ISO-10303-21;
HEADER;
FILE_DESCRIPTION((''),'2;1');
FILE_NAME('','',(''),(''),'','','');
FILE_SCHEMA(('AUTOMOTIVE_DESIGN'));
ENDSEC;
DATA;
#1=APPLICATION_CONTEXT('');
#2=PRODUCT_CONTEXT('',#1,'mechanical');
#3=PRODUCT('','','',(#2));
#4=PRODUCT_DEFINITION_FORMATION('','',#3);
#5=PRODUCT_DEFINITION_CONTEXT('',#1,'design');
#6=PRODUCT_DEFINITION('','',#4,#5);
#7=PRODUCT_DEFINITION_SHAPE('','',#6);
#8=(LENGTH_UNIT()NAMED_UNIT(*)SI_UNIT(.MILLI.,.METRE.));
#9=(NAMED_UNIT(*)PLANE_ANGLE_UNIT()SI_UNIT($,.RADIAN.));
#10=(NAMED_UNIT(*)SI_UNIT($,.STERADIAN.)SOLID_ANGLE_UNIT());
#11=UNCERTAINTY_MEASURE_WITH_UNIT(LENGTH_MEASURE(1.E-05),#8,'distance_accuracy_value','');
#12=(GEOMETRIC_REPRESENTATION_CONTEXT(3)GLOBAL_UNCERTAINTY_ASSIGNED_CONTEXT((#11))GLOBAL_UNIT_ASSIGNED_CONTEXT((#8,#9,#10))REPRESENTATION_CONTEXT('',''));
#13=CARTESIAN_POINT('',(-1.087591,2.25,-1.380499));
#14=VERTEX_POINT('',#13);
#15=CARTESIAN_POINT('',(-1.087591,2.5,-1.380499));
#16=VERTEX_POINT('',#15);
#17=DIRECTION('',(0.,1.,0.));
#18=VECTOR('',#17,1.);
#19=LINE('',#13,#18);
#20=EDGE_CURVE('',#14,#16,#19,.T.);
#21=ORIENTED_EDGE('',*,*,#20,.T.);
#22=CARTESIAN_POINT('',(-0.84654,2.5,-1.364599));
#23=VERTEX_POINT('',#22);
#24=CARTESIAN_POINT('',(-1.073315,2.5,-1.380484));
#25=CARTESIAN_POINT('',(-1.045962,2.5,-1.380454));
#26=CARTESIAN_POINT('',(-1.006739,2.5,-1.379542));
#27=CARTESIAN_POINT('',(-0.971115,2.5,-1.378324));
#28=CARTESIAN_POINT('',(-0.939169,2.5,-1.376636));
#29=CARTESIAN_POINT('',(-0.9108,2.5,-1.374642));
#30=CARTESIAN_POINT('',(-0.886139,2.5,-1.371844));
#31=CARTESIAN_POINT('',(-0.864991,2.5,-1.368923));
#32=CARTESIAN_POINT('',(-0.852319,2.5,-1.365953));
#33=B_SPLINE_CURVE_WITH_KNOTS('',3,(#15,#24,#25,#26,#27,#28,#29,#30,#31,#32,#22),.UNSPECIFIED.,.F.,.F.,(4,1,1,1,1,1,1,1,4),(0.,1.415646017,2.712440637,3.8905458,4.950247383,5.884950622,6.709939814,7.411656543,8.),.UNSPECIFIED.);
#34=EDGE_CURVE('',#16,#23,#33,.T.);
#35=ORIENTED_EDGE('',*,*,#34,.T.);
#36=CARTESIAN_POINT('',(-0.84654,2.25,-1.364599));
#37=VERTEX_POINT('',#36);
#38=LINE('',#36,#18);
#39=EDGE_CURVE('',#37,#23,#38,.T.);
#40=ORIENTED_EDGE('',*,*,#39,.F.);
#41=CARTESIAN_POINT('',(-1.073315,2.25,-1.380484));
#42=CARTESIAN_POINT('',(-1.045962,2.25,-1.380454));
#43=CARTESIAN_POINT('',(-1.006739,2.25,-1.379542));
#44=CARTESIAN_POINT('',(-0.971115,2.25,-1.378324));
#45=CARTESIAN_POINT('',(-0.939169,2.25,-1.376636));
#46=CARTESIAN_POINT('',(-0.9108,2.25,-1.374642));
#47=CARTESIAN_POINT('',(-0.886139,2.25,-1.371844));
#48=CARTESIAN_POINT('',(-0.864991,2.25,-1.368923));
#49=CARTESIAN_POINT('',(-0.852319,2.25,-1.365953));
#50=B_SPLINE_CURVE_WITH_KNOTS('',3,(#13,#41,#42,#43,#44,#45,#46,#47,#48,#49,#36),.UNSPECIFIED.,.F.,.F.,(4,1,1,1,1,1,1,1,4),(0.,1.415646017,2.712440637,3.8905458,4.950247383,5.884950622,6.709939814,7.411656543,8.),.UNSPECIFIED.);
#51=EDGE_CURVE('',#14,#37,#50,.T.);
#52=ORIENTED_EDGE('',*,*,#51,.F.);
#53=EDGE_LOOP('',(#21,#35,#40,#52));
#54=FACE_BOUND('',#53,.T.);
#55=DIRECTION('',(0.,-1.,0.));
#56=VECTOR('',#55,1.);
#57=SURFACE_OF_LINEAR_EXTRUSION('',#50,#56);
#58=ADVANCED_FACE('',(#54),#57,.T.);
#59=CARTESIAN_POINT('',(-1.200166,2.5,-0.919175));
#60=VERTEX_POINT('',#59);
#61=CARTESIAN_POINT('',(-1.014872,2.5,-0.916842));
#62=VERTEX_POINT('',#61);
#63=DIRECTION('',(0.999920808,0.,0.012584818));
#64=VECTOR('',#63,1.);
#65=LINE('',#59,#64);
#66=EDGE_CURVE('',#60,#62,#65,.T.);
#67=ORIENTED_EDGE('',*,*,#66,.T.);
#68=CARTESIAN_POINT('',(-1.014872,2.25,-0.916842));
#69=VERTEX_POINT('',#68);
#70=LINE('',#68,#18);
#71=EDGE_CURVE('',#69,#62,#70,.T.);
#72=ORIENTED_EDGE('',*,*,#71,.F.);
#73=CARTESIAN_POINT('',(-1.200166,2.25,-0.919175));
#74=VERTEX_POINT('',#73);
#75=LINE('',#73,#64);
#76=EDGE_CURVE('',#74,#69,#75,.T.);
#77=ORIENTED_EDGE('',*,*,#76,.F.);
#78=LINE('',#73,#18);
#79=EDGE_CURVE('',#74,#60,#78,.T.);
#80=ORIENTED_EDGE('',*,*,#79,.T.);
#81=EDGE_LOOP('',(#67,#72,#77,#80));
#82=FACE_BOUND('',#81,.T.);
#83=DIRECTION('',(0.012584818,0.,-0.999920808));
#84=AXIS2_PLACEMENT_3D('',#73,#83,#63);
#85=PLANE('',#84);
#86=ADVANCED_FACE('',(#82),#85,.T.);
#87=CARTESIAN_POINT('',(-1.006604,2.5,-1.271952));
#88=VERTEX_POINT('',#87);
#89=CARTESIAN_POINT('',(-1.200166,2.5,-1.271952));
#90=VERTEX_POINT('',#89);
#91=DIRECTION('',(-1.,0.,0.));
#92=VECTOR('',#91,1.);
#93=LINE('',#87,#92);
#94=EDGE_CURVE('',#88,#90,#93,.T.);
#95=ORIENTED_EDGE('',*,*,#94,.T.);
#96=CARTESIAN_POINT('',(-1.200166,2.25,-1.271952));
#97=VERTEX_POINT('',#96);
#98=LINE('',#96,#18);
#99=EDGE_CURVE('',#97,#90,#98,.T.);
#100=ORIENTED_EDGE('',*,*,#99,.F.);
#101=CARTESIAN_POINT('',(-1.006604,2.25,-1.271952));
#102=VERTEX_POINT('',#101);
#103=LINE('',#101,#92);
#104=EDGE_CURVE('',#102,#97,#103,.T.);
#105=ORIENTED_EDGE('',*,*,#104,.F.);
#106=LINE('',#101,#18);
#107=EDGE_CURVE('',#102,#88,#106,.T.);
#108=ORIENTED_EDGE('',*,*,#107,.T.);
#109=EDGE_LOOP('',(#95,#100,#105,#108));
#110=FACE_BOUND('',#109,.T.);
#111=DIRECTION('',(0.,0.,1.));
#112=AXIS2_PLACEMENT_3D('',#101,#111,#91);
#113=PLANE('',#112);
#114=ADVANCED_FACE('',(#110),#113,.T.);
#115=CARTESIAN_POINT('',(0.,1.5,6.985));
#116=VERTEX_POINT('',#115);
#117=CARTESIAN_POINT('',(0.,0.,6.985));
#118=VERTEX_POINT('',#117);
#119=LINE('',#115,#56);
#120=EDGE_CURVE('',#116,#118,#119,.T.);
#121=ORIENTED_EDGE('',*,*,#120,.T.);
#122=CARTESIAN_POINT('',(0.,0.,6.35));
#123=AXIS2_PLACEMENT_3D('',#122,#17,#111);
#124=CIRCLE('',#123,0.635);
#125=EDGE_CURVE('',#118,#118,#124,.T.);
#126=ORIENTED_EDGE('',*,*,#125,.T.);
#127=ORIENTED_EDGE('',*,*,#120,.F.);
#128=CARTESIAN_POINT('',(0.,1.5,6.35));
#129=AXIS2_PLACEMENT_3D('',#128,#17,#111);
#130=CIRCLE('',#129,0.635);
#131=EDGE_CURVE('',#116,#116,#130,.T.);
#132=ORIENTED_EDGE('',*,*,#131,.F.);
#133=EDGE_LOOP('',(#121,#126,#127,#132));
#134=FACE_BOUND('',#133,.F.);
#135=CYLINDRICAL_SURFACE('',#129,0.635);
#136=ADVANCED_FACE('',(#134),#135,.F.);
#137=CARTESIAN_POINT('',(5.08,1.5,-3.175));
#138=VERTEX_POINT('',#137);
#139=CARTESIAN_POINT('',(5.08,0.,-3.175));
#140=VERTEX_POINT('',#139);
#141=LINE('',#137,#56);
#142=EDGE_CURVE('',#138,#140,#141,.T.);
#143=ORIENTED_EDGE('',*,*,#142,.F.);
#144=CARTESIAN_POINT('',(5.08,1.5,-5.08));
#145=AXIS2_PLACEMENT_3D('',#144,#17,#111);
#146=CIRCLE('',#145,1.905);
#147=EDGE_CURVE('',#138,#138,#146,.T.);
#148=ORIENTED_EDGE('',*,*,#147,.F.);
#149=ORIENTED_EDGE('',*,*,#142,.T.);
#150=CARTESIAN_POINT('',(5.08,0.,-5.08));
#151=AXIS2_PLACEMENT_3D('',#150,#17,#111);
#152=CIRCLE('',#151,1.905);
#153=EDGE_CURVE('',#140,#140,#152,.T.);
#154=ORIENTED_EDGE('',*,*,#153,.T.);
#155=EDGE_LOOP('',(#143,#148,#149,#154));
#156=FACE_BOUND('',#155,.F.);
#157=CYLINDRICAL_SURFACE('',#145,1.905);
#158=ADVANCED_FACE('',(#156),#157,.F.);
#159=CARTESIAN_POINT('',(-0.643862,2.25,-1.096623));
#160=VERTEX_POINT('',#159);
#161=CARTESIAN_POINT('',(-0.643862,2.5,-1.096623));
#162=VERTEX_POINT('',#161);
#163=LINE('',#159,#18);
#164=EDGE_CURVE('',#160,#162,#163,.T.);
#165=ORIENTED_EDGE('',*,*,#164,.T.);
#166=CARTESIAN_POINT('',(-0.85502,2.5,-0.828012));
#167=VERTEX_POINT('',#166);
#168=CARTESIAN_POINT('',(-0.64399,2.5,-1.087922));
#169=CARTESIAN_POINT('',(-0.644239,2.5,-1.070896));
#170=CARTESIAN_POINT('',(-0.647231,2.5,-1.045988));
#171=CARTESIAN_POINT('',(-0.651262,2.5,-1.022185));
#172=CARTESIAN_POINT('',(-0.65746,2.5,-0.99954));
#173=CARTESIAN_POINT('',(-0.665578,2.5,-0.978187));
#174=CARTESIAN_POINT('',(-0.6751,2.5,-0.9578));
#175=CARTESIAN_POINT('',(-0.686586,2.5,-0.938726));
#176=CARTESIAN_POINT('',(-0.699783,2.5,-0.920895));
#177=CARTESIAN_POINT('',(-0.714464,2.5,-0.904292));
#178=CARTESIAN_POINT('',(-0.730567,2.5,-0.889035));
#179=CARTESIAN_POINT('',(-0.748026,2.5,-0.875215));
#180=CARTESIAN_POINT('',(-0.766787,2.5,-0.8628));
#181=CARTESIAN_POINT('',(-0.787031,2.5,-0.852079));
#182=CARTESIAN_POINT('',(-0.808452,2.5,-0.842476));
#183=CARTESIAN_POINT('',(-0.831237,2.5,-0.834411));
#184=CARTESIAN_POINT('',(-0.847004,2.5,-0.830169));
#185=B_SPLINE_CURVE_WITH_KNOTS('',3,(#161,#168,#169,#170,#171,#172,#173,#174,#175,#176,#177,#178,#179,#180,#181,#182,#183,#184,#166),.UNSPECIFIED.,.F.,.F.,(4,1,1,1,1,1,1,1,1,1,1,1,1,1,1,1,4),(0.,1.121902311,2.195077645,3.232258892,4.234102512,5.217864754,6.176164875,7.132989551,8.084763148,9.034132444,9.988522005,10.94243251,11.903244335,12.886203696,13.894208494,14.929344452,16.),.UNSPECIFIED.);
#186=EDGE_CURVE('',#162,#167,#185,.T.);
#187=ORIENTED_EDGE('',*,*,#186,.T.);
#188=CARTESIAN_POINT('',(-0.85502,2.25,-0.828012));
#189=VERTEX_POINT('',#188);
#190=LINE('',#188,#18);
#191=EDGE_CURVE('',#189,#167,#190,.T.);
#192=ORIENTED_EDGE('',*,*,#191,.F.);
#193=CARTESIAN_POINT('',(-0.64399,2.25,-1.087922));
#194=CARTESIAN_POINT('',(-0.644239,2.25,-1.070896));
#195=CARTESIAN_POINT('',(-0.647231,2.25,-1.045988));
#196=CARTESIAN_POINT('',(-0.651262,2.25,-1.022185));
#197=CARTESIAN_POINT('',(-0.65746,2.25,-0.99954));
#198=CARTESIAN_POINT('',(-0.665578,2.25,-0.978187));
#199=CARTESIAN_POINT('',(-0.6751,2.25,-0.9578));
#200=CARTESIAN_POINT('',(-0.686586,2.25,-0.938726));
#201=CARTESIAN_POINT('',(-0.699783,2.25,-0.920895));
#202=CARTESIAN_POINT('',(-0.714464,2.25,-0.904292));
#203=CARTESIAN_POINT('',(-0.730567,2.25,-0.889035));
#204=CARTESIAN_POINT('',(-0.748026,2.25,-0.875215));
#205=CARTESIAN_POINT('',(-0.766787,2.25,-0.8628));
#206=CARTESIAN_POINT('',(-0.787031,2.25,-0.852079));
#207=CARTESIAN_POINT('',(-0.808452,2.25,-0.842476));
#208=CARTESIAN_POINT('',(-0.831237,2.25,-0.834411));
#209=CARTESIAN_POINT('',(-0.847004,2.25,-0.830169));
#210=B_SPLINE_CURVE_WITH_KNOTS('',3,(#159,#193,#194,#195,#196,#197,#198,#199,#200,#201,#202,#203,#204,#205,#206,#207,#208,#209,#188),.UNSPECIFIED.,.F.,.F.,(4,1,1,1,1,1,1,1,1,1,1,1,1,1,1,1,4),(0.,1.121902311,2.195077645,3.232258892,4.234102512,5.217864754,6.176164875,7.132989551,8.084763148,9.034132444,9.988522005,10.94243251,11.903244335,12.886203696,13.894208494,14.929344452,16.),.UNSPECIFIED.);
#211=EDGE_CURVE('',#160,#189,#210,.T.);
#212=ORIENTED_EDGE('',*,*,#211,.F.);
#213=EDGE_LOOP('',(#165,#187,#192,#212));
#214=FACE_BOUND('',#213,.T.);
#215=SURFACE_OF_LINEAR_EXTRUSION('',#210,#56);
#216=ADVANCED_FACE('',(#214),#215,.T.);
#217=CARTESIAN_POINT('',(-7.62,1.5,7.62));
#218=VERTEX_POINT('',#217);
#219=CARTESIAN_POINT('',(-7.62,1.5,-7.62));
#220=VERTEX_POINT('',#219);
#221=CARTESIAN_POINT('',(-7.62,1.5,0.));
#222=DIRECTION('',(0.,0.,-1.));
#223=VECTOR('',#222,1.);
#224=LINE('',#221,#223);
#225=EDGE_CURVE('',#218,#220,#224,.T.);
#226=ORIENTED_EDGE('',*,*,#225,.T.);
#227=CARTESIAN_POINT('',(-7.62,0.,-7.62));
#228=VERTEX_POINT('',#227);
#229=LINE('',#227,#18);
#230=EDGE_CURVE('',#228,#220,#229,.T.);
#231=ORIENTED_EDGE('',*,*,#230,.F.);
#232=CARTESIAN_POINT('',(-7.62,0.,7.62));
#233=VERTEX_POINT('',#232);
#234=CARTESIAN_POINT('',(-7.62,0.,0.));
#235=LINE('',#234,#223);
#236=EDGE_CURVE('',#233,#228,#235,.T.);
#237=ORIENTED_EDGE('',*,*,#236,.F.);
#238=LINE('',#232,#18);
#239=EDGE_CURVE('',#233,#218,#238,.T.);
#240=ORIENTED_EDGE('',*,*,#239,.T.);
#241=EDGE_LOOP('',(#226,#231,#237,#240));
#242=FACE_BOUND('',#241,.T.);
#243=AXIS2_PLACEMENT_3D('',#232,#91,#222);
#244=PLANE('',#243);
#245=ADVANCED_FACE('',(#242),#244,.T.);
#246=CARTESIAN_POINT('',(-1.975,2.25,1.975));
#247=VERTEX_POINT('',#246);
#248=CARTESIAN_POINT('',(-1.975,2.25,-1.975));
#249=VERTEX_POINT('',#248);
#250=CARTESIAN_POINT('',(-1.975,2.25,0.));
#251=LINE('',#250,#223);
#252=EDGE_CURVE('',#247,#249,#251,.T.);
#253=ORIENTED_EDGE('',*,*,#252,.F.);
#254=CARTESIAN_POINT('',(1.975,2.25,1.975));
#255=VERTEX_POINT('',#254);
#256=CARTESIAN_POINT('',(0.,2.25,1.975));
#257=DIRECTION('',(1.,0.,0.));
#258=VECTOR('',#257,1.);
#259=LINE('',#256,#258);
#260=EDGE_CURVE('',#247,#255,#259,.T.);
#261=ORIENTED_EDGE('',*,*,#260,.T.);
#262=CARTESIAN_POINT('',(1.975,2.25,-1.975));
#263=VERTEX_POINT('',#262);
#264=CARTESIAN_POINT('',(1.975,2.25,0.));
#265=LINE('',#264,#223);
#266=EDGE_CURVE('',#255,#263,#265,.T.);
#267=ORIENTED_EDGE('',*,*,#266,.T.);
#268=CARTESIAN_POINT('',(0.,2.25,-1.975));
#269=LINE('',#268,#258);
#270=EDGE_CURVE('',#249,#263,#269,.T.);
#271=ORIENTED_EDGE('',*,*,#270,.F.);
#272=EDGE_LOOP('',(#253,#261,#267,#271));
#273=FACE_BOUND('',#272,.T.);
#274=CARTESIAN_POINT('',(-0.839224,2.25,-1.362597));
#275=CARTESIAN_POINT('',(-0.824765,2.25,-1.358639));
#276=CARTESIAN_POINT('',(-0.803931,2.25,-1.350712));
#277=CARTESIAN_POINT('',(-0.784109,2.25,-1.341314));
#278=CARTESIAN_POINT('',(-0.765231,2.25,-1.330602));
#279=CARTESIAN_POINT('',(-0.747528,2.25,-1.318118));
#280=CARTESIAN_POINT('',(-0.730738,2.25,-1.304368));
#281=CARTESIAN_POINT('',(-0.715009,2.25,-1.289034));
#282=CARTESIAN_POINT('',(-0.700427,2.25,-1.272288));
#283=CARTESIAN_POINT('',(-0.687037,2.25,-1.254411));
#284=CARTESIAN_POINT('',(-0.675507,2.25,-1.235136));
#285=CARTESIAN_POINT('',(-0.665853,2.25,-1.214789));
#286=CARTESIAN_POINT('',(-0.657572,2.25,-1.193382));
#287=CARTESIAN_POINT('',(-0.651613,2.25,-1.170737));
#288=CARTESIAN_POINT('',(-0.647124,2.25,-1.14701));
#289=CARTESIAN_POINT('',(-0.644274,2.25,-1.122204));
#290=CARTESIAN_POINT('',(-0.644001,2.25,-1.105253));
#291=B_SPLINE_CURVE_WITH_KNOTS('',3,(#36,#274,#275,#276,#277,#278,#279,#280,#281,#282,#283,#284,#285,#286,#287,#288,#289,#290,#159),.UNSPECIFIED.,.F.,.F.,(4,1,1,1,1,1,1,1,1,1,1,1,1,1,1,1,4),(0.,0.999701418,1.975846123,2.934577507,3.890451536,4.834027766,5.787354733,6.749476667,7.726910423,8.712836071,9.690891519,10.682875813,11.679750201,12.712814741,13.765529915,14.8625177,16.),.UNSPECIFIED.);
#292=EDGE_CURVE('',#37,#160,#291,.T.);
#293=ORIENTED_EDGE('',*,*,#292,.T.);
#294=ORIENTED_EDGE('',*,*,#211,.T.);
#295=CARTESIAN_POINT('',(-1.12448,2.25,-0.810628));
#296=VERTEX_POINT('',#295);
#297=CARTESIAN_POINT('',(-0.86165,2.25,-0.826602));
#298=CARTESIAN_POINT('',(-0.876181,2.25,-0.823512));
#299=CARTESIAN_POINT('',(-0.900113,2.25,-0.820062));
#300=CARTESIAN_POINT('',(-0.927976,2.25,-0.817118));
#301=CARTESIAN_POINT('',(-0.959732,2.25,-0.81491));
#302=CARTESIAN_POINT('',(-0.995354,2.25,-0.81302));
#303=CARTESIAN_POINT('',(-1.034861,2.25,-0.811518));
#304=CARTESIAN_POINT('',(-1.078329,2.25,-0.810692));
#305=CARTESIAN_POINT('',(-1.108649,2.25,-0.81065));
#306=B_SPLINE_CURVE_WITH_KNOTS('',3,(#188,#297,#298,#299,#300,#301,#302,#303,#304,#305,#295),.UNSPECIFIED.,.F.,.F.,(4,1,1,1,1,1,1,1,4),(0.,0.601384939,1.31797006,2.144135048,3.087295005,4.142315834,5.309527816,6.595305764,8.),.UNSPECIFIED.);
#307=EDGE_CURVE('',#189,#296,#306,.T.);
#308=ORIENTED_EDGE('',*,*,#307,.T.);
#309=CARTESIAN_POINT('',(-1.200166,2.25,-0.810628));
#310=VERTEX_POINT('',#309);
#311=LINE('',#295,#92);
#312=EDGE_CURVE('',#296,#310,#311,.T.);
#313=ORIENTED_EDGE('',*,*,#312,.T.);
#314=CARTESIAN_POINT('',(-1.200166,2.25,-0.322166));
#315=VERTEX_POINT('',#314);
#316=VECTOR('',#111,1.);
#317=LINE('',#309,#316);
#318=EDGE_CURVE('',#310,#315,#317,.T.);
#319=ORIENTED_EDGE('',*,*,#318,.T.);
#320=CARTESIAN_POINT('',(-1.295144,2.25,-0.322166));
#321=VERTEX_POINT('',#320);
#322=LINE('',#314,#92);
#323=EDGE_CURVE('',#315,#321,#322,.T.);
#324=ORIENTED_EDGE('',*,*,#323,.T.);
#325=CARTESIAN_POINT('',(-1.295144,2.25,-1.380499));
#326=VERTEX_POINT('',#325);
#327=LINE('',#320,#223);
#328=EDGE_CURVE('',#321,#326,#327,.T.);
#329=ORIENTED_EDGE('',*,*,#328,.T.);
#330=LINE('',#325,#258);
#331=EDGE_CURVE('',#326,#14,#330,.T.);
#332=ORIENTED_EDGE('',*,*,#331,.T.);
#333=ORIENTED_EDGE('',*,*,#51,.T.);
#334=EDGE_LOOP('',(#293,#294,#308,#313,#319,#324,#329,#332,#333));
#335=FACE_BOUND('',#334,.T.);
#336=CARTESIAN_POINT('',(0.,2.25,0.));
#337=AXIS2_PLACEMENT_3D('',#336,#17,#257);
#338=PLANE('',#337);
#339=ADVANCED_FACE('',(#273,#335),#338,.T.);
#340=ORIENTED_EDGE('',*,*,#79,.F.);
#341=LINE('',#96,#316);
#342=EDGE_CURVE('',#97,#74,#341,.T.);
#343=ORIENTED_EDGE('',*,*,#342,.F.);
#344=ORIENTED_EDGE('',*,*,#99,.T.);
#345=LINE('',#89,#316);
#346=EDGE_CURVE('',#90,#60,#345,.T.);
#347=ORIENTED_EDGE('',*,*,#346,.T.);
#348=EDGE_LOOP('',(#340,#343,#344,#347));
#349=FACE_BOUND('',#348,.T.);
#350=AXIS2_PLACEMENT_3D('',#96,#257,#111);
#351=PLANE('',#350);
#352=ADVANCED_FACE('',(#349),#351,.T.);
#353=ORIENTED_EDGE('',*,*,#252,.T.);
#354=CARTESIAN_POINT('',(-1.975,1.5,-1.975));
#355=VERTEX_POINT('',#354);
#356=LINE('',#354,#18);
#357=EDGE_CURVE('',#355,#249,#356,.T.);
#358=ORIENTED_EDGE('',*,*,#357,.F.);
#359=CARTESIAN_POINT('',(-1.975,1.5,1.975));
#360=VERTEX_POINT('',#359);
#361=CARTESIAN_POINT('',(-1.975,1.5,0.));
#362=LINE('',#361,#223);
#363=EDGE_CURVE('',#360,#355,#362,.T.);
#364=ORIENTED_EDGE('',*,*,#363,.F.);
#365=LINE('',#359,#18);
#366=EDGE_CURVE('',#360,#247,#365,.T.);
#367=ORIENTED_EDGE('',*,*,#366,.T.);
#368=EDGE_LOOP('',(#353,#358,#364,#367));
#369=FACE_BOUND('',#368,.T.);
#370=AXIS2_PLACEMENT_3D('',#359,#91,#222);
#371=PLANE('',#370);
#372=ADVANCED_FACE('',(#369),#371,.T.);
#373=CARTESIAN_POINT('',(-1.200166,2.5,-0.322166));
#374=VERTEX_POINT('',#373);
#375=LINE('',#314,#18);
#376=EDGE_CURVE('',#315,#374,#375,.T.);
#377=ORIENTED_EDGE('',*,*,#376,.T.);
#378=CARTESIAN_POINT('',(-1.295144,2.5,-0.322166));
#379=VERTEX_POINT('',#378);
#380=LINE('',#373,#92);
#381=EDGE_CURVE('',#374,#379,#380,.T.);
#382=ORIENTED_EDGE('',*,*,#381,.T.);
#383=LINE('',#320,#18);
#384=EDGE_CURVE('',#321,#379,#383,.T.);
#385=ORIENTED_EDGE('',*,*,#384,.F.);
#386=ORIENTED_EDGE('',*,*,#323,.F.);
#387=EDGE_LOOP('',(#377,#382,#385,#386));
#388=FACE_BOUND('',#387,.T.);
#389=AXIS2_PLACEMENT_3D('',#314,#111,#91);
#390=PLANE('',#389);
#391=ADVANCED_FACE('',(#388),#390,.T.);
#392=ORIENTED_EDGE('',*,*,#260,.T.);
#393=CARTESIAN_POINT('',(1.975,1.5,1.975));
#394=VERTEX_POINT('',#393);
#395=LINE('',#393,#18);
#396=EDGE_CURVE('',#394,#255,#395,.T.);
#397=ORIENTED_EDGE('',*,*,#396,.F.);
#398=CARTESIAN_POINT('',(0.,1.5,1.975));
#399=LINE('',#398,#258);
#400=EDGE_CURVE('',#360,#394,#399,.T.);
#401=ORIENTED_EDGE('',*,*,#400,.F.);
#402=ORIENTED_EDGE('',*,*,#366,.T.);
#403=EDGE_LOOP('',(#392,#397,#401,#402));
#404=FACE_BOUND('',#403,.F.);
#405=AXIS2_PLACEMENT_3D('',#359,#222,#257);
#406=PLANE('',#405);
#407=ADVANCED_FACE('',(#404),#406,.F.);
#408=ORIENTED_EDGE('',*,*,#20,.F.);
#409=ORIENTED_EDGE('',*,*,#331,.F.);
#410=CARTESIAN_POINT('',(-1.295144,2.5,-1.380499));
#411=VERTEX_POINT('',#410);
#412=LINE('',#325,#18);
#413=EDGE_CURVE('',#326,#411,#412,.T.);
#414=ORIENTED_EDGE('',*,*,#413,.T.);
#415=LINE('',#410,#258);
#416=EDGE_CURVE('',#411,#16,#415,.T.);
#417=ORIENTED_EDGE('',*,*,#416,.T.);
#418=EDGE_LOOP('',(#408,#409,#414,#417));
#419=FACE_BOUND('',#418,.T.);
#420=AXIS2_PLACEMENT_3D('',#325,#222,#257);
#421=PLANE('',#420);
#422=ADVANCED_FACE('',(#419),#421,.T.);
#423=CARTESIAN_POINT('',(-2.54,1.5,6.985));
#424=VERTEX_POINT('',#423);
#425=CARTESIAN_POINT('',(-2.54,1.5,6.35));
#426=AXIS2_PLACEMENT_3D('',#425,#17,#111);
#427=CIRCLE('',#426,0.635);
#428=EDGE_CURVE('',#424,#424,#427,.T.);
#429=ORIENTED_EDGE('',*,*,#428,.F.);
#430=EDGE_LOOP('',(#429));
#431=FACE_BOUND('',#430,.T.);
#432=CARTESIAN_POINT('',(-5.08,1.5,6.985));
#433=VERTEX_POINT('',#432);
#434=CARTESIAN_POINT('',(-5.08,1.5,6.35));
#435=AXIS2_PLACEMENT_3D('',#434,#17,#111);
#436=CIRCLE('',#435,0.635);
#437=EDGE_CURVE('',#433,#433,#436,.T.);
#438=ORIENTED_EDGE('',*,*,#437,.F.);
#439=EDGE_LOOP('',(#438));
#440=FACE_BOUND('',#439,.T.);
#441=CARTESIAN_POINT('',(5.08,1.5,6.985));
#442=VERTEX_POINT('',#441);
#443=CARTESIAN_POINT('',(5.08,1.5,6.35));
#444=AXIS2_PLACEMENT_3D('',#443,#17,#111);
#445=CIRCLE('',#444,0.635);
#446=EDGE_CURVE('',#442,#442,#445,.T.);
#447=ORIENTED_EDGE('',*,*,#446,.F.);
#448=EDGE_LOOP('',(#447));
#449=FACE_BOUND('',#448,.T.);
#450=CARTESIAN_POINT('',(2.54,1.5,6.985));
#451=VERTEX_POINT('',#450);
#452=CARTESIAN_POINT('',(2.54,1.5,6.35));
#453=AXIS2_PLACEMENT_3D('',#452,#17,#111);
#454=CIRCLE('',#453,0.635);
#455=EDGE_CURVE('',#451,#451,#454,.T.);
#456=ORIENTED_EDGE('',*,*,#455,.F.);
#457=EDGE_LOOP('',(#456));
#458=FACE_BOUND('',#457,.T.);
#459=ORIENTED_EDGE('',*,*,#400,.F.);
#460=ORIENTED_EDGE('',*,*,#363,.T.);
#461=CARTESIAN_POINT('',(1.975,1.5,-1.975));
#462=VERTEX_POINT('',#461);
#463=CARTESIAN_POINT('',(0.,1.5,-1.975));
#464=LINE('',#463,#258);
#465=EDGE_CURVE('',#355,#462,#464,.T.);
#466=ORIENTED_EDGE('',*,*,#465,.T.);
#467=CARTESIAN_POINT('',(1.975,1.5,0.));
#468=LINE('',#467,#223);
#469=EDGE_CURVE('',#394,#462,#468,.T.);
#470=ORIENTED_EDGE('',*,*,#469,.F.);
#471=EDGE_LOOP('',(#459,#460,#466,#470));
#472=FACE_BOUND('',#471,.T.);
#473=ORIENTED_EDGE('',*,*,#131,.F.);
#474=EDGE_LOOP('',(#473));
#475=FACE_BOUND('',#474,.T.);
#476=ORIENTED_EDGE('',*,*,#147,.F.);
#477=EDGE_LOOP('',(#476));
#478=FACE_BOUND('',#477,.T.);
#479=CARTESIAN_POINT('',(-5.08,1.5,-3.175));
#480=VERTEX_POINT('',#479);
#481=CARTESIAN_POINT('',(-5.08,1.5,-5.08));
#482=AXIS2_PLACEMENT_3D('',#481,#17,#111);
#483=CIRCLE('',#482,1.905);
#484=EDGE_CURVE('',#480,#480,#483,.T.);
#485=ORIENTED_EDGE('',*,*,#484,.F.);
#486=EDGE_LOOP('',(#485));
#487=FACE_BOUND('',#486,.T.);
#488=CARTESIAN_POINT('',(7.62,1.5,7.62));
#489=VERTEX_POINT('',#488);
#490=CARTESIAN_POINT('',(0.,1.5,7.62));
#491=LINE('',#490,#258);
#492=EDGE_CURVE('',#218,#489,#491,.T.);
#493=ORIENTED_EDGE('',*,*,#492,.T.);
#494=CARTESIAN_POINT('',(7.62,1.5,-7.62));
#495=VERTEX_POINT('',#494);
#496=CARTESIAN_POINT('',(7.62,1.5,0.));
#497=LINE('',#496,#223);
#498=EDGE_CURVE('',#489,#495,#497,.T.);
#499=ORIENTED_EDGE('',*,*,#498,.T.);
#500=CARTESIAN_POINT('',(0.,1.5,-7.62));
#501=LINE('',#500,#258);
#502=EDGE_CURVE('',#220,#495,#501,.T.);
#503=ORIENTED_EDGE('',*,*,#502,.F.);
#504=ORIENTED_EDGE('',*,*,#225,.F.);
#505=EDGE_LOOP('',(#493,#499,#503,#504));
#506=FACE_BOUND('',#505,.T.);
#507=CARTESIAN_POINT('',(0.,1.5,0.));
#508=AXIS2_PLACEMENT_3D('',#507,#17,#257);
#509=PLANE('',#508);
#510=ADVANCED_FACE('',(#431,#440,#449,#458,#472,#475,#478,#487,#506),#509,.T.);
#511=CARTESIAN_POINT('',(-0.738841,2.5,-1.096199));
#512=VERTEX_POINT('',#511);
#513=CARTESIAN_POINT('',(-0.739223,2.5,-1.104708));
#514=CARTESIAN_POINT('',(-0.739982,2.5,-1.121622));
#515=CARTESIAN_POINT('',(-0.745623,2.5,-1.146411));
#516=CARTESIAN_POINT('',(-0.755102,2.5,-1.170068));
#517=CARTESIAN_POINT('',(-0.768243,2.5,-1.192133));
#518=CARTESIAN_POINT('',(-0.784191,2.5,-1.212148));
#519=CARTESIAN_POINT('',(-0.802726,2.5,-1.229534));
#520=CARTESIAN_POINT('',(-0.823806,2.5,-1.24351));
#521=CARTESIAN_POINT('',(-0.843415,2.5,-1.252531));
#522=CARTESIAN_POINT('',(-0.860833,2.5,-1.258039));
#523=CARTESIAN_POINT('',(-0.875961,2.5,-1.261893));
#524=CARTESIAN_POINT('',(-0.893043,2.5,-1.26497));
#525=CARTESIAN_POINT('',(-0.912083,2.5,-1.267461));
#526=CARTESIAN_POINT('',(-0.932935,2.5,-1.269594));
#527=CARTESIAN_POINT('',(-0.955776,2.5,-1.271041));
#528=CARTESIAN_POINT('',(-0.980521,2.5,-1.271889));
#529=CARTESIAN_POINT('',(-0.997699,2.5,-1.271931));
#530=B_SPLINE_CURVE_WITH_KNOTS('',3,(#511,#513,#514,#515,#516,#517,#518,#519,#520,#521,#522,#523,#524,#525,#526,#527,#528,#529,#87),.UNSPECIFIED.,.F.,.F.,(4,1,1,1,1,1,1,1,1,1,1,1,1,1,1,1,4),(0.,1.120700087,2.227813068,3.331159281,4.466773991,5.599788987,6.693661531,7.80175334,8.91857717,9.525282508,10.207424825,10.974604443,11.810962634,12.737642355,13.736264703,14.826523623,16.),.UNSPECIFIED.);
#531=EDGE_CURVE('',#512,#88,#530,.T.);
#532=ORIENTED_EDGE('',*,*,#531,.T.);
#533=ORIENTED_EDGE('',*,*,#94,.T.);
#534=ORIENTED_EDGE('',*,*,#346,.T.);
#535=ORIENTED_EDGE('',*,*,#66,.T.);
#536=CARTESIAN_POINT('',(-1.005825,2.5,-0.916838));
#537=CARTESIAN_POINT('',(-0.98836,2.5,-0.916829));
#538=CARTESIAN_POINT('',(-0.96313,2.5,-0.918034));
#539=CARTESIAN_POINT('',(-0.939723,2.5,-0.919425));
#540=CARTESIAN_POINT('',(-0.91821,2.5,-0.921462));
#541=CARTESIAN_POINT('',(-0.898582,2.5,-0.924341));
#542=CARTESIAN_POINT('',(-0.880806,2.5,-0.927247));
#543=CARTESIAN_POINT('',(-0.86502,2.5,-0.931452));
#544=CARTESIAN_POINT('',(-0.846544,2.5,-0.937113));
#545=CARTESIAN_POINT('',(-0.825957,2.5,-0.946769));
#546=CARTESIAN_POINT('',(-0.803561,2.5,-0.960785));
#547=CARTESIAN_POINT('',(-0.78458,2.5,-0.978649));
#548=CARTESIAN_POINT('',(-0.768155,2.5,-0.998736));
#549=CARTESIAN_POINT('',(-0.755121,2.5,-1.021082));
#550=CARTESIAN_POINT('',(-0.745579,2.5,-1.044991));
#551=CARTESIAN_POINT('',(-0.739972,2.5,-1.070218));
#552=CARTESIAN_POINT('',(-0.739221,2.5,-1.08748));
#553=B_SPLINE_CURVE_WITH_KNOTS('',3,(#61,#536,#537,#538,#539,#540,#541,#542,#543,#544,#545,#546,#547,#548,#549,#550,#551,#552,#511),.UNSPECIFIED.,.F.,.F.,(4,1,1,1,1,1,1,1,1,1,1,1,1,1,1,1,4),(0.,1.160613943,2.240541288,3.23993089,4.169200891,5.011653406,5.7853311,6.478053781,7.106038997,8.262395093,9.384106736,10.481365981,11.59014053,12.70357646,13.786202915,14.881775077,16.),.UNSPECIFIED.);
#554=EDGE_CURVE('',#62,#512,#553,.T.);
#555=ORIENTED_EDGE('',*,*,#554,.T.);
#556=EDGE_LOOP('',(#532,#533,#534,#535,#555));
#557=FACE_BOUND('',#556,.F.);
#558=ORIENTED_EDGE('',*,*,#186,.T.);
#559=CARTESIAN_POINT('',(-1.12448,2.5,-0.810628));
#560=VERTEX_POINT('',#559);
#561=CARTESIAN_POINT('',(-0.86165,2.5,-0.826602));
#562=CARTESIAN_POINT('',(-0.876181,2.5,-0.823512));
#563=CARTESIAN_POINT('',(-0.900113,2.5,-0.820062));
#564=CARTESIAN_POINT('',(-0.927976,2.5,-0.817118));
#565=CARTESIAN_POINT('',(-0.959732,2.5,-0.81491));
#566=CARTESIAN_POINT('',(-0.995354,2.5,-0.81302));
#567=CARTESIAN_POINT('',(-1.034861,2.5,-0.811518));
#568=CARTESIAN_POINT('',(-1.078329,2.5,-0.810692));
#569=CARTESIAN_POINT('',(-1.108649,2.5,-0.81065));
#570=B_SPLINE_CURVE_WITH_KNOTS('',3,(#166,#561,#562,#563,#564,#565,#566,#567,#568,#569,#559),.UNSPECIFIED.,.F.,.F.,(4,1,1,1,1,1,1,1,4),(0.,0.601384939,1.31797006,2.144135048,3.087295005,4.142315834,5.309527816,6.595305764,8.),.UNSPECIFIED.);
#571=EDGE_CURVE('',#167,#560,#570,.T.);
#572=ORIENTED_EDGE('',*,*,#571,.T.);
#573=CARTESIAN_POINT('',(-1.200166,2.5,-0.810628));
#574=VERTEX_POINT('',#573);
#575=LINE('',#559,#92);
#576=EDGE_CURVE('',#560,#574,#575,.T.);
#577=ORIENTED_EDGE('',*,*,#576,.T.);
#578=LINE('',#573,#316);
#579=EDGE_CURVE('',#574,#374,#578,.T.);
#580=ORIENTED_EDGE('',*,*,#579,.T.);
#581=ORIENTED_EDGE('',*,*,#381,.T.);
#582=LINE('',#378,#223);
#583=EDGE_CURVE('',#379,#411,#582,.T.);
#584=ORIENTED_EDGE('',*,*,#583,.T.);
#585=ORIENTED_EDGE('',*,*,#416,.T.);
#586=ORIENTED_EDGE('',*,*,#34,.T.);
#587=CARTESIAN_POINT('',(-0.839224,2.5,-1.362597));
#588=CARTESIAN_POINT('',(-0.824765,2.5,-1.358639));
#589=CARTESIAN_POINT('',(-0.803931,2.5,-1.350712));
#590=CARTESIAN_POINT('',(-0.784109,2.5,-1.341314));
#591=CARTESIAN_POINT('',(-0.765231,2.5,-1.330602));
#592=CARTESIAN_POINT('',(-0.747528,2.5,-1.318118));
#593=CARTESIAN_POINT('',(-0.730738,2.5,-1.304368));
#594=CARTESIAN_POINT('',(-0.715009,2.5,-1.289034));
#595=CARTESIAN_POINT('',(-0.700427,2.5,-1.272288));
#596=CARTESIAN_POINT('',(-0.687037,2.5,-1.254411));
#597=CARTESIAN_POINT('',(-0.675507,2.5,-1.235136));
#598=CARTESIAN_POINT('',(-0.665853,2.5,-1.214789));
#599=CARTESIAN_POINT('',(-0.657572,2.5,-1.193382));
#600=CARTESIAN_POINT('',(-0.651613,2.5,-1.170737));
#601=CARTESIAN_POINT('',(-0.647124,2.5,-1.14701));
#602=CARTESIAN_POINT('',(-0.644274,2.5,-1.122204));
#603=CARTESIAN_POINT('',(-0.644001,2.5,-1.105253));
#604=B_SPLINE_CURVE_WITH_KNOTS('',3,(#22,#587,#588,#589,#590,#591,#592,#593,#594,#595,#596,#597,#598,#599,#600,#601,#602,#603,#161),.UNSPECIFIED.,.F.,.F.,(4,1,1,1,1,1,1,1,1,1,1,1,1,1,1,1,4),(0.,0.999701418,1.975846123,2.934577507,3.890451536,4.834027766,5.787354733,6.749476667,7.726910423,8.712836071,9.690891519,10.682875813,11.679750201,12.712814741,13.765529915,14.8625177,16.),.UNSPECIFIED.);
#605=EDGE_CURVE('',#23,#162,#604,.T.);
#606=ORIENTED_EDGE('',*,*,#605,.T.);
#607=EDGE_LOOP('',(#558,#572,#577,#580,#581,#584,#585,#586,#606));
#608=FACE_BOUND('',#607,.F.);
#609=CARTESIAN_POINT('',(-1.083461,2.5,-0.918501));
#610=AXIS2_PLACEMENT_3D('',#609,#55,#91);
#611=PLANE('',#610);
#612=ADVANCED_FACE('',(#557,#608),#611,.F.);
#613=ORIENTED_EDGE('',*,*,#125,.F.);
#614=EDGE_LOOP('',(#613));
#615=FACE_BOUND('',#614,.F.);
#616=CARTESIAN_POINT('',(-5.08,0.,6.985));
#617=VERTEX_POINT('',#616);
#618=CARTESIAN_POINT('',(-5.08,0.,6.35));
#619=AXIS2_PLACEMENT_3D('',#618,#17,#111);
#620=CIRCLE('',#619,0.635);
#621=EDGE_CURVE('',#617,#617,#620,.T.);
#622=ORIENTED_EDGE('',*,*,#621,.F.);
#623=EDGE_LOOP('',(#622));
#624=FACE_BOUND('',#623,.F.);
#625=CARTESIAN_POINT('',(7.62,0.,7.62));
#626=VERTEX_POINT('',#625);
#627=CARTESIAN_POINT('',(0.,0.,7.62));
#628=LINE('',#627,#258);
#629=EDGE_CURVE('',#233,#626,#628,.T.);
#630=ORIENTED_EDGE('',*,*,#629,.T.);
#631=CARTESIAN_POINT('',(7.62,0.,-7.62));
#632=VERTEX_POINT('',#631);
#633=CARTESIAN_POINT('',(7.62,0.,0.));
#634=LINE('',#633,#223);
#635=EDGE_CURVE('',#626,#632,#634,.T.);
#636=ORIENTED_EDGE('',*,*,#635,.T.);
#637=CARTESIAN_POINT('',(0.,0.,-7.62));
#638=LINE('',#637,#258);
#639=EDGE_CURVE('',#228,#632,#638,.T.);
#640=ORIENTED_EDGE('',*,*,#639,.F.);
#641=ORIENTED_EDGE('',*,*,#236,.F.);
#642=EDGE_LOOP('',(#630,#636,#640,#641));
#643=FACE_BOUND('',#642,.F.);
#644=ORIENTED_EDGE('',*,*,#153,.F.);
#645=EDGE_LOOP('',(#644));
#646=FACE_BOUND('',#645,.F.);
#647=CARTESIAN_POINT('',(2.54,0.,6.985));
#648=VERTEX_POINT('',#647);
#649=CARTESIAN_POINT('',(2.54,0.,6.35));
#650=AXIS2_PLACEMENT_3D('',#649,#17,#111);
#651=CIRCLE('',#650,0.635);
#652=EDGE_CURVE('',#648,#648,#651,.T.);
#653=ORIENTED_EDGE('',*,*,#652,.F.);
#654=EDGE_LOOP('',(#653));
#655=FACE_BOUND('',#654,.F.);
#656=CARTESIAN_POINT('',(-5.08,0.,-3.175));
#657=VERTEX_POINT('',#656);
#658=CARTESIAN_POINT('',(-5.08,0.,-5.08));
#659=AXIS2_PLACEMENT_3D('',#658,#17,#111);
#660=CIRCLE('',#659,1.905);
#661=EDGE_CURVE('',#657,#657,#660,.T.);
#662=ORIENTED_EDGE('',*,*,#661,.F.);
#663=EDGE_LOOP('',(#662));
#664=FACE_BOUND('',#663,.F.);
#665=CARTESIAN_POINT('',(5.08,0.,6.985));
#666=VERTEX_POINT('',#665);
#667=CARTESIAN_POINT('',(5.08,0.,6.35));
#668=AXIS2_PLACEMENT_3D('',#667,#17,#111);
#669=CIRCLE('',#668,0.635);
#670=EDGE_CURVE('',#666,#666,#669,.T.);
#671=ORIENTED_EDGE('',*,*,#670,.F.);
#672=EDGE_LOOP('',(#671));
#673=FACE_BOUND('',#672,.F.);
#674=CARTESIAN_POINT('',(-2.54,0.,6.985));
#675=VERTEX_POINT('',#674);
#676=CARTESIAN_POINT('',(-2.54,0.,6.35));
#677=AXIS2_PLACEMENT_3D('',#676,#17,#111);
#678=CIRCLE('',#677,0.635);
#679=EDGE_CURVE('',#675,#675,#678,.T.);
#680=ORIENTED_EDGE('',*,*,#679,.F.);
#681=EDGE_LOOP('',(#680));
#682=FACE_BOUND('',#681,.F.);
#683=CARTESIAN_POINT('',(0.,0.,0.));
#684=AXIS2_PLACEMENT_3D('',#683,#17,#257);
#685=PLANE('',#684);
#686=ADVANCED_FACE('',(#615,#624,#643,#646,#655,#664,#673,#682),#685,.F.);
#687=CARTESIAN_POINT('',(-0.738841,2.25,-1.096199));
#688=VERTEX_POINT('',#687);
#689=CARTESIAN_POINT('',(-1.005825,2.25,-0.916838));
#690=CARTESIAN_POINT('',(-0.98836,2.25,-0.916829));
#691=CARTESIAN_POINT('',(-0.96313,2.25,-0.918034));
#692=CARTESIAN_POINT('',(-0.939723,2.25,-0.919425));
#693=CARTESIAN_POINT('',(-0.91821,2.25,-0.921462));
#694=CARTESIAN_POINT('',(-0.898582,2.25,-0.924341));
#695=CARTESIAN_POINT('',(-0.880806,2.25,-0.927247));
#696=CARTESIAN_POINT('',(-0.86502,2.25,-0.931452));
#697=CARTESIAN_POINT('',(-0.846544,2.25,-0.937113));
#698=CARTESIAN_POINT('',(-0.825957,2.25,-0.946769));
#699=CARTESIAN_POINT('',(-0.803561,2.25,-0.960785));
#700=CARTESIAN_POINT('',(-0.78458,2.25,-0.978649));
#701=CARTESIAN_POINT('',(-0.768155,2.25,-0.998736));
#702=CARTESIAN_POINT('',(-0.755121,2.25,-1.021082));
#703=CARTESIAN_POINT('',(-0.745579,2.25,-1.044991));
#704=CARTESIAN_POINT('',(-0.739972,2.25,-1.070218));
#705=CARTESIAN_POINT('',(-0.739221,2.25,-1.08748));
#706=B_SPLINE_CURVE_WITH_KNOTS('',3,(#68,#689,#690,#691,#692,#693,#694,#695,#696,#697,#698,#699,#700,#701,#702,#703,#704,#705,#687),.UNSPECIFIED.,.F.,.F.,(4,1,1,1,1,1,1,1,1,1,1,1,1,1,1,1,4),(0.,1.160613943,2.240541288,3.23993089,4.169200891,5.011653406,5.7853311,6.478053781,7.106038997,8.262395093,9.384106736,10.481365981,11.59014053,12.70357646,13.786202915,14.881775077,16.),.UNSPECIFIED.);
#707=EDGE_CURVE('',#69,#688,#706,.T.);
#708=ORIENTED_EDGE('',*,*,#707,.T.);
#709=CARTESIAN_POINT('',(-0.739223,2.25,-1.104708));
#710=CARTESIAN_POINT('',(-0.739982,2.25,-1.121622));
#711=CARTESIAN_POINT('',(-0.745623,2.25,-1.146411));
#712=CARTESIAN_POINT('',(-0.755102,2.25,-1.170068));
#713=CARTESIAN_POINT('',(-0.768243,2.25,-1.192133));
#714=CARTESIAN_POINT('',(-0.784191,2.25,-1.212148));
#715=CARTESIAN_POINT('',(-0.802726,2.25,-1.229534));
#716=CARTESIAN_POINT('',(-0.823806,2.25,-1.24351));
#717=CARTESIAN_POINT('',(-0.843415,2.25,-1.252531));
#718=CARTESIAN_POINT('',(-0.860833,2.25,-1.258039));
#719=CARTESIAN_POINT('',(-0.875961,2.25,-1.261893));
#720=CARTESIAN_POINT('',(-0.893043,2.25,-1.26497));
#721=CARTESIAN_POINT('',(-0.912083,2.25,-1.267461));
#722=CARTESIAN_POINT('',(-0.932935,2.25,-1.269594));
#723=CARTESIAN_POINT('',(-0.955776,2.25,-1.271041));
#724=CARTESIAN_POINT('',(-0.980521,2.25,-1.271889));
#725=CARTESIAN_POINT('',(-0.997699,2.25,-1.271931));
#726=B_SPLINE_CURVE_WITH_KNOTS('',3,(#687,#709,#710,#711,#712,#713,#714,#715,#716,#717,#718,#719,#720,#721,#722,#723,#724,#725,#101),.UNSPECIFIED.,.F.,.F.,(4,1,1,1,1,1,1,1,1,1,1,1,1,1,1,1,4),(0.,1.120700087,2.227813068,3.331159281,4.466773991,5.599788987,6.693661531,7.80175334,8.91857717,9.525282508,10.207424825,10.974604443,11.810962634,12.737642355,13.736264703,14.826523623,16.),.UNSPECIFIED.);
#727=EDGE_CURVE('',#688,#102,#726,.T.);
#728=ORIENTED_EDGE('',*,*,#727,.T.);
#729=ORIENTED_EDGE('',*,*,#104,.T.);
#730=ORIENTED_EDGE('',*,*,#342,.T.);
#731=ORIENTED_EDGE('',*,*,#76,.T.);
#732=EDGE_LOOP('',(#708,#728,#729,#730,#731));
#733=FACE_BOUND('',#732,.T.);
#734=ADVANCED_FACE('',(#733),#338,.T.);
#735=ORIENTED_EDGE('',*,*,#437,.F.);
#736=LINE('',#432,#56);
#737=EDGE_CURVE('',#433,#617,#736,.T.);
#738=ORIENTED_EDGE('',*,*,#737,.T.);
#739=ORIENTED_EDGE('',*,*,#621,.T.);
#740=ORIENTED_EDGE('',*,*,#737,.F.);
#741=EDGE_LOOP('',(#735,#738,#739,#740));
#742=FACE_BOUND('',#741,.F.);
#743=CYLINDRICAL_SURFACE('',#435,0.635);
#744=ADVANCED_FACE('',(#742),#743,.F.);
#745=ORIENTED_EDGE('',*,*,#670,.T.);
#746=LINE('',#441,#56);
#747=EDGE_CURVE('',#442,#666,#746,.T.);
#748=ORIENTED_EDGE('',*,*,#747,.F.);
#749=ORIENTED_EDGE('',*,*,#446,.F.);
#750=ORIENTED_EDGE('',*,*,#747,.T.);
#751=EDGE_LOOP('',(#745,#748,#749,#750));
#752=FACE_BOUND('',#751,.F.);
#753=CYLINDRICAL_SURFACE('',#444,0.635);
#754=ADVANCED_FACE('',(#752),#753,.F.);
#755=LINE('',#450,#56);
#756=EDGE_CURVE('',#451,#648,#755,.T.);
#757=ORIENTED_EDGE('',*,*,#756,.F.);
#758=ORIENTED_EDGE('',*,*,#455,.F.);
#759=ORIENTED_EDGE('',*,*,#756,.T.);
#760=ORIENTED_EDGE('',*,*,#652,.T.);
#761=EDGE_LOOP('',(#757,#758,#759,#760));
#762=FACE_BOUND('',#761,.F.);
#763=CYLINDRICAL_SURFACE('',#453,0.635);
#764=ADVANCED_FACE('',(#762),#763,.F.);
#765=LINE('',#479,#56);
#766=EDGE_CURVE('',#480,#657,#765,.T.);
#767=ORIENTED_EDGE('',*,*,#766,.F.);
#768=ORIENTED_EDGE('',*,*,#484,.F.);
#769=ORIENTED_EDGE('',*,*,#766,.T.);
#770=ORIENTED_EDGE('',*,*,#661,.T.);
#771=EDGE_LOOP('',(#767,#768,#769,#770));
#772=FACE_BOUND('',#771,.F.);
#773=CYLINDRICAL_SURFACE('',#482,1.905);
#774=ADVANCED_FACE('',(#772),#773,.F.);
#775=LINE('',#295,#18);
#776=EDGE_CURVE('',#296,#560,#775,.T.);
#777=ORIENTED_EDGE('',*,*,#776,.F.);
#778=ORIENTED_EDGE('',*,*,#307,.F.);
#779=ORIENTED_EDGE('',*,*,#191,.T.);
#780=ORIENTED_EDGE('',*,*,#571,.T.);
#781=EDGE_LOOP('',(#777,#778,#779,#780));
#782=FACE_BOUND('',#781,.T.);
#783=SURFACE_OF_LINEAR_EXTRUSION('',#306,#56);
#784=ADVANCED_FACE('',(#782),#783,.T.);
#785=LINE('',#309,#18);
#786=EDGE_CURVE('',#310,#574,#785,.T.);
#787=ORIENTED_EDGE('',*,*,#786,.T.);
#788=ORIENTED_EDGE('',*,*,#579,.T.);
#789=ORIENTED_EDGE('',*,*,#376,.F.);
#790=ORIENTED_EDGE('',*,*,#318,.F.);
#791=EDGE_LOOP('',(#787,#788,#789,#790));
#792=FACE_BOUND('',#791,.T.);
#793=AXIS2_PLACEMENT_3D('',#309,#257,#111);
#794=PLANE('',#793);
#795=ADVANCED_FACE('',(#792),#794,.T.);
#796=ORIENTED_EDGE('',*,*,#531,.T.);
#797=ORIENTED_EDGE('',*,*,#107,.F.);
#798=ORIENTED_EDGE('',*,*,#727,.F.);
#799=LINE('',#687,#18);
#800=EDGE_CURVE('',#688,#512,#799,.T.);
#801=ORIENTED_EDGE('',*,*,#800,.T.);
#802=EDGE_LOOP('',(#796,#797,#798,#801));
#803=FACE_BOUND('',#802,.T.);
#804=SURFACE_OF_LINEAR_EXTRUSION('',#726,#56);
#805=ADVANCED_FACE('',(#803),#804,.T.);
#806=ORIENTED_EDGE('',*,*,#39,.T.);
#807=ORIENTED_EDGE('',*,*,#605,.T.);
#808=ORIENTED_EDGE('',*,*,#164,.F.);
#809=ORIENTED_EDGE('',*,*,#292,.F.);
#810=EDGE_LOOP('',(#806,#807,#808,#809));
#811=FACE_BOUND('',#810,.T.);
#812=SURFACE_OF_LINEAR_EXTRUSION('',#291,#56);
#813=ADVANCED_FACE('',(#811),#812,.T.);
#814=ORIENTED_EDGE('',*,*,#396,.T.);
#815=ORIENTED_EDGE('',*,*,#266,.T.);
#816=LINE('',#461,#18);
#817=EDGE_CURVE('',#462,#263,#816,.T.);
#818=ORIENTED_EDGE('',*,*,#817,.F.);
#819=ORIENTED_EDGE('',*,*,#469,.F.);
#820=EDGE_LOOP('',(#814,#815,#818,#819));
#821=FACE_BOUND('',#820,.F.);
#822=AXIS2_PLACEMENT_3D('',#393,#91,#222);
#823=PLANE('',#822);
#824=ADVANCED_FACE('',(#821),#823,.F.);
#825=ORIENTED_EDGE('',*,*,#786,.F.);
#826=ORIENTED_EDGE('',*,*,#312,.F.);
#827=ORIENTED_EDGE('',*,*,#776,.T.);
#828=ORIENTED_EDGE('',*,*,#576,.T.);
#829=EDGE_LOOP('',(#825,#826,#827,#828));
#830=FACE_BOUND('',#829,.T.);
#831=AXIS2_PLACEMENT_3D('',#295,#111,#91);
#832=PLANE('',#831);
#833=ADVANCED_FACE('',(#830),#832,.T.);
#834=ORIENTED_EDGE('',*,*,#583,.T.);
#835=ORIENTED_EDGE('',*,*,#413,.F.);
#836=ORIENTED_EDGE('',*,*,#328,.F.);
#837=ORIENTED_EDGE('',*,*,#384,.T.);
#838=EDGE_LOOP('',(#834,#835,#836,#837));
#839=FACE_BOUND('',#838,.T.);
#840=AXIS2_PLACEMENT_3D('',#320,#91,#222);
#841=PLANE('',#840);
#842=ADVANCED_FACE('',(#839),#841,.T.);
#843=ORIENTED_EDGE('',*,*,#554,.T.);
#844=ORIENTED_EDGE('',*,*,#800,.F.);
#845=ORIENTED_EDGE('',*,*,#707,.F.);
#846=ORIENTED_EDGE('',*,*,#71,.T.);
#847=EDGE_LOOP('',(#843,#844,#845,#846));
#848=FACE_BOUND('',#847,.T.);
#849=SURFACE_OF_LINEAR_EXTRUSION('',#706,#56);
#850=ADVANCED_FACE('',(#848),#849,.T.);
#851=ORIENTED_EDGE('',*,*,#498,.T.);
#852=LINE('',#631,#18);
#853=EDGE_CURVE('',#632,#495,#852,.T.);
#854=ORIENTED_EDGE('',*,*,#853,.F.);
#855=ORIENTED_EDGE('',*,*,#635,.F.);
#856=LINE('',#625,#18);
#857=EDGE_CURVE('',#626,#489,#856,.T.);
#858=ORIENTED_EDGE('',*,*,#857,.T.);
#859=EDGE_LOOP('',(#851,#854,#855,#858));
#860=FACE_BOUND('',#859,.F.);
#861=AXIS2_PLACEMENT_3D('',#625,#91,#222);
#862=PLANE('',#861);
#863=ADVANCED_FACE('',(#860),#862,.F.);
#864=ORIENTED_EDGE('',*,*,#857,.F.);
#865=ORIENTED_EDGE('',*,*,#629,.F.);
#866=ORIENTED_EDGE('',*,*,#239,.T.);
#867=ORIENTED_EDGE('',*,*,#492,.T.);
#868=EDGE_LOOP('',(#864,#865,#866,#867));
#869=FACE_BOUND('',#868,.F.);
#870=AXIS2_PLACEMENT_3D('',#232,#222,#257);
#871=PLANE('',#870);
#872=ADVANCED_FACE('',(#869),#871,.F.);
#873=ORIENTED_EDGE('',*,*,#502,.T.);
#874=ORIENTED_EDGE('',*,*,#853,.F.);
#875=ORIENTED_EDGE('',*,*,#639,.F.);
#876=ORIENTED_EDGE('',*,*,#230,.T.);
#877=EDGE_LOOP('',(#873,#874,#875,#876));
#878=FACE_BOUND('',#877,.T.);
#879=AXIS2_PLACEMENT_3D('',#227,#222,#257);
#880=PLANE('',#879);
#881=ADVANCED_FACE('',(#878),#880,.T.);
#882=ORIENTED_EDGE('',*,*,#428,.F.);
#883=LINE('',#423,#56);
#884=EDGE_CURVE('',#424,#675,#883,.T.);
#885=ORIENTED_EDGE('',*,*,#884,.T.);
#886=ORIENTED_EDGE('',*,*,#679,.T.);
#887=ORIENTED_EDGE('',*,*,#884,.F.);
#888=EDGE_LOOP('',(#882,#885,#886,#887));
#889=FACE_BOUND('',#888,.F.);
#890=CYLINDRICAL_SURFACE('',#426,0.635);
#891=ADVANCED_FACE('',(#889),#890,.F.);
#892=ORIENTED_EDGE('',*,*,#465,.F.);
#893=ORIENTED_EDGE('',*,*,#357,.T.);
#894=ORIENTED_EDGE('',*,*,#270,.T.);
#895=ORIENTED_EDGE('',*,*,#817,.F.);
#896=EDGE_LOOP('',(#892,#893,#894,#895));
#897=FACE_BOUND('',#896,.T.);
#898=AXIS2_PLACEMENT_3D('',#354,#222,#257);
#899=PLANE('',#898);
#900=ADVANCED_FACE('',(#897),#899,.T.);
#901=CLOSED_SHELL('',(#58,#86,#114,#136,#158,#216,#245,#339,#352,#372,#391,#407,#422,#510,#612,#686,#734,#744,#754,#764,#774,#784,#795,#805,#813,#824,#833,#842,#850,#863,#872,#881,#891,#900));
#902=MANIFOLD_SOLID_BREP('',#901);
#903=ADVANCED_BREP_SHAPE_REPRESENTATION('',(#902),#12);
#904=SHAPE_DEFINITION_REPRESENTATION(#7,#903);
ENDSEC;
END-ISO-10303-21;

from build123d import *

# Parameters (mm, degrees)
SKETCH1_W           = 15.24
SKETCH1_H           = 15.24
BOSS_EXTRUDE1_DEPTH = 1.5
SKETCH2_R           = 1.905
SKETCH2_R_2         = 0.635
CUT_EXTRUDE1_DEPTH  = 11.880202204
SKETCH3_W           = 3.95
SKETCH3_H           = 3.95
BOSS_EXTRUDE2_DEPTH = 0.75
BOSS_EXTRUDE3_DEPTH = 0.25


with BuildPart() as part:
    # Sketch1 → Boss-Extrude1 (new body)
    with BuildSketch(Plane(origin=(0, 0, 0), x_dir=(1, 0, 0), z_dir=(0, 1, 0))):
        Rectangle(SKETCH1_W, SKETCH1_H)
    extrude(amount=BOSS_EXTRUDE1_DEPTH)

    # Sketch2 → Cut-Extrude1 (cut, through all)
    with BuildSketch(Plane(origin=(0, 1.5, 0), x_dir=(1, 0, 0), z_dir=(0, 1, 0))):
        with Locations(Location((-5.08, 5.08, 0), (0, 0, 270))):
            Circle(SKETCH2_R)
        with Locations(Location((5.08, 5.08, 0), (0, 0, 270))):
            Circle(SKETCH2_R)
        with Locations(Location((5.08, -6.35, 0), (0, 0, 270))):
            Circle(SKETCH2_R_2)
        with Locations(Location((2.54, -6.35, 0), (0, 0, 270))):
            Circle(SKETCH2_R_2)
        with Locations(Location((0, -6.35, 0), (0, 0, 270))):
            Circle(SKETCH2_R_2)
        with Locations(Location((-2.54, -6.35, 0), (0, 0, 270))):
            Circle(SKETCH2_R_2)
        with Locations(Location((-5.08, -6.35, 0), (0, 0, 270))):
            Circle(SKETCH2_R_2)
    extrude(amount=-CUT_EXTRUDE1_DEPTH, mode=Mode.SUBTRACT)

    # Sketch3 → Boss-Extrude2 (add)
    with BuildSketch(Plane(origin=(0, 1.5, 0), x_dir=(1, 0, 0), z_dir=(0, 1, 0))):
        Rectangle(SKETCH3_W, SKETCH3_H)
    extrude(amount=BOSS_EXTRUDE2_DEPTH)

    # Sketch4 → Boss-Extrude3 (add)
    with BuildSketch(Plane(origin=(0, 2.25, 0), x_dir=(1, 0, 0), z_dir=(0, 1, 0))):
        with BuildLine():
            Line((-1.295144256, 1.380499313), (-1.087590503, 1.380499313))
            add(Edge.make_bspline(
                [(-1.087590503, 1.380499313), (-1.073314825, 1.38048362), (-1.04596199, 1.380453553), (-1.006738628, 1.379541951), (-0.971115209, 1.378324356), (-0.939168546, 1.376636498), (-0.910800345, 1.374641815), (-0.886138971, 1.371844174), (-0.864990582, 1.368923085), (-0.85231887, 1.365953279), (-0.846539822, 1.364598872)],
                knots=[0, 0, 0, 0, 1.415646017, 2.712440637, 3.8905458, 4.950247383, 5.884950622, 6.709939814, 7.411656543, 8, 8, 8, 8], degree=3))
            add(Edge.make_bspline(
                [(-0.846539822, 1.364598872), (-0.839224159, 1.362596521), (-0.824765215, 1.358639001), (-0.803930852, 1.35071247), (-0.784108618, 1.341313815), (-0.765230504, 1.33060229), (-0.747528493, 1.318118322), (-0.730738476, 1.304367966), (-0.715008625, 1.289033754), (-0.700427395, 1.272287673), (-0.687036515, 1.254410848), (-0.675506825, 1.235136412), (-0.66585264, 1.214788803), (-0.65757246, 1.193382176), (-0.651612999, 1.170736768), (-0.64712358, 1.147009929), (-0.644274054, 1.122204201), (-0.644001137, 1.105252765), (-0.643862205, 1.096623445)],
                knots=[0, 0, 0, 0, 0.999701418, 1.975846123, 2.934577507, 3.890451536, 4.834027766, 5.787354733, 6.749476667, 7.726910423, 8.712836071, 9.690891519, 10.682875813, 11.679750201, 12.712814741, 13.765529915, 14.8625177, 16, 16, 16, 16], degree=3))
            add(Edge.make_bspline(
                [(-0.643862205, 1.096623445), (-0.643989636, 1.087921593), (-0.644238963, 1.070895833), (-0.647231411, 1.045987871), (-0.651262207, 1.022184929), (-0.657460125, 0.999539786), (-0.665577745, 0.978186922), (-0.675100342, 0.957800025), (-0.686585838, 0.938725934), (-0.699783203, 0.920895401), (-0.714464281, 0.904291689), (-0.730566955, 0.889035121), (-0.748026217, 0.875214999), (-0.766786581, 0.862800343), (-0.78703094, 0.852079039), (-0.808452258, 0.842476235), (-0.831236728, 0.834411414), (-0.847003631, 0.830168991), (-0.855020057, 0.828012)],
                knots=[0, 0, 0, 0, 1.121902311, 2.195077645, 3.232258892, 4.234102512, 5.217864754, 6.176164875, 7.132989551, 8.084763148, 9.034132444, 9.988522005, 10.94243251, 11.903244335, 12.886203696, 13.894208494, 14.929344452, 16, 16, 16, 16], degree=3))
            add(Edge.make_bspline(
                [(-0.855020057, 0.828012), (-0.861650466, 0.826602003), (-0.87618139, 0.823511913), (-0.900112642, 0.820062213), (-0.927975652, 0.817117748), (-0.959732389, 0.814910024), (-0.995354348, 0.813020031), (-1.0348608, 0.811517774), (-1.078329294, 0.810692318), (-1.108649409, 0.810649745), (-1.124479526, 0.810627518)],
                knots=[0, 0, 0, 0, 0.601384939, 1.31797006, 2.144135048, 3.087295005, 4.142315834, 5.309527816, 6.595305764, 8, 8, 8, 8], degree=3))
            Line((-1.124479526, 0.810627518), (-1.200165624, 0.810627518))
            Line((-1.200165624, 0.810627518), (-1.200165624, 0.322165979))
            Line((-1.200165624, 0.322165979), (-1.295144256, 0.322165979))
            Line((-1.295144256, 0.322165979), (-1.295144256, 1.380499313))
        make_face()
        with BuildLine():
            Line((-1.200165624, 1.271952304), (-1.200165624, 0.919174527))
            Line((-1.200165624, 0.919174527), (-1.014872488, 0.916842462))
            add(Edge.make_bspline(
                [(-1.014872488, 0.916842462), (-1.005825272, 0.916837786), (-0.988359809, 0.916828759), (-0.963130284, 0.918033815), (-0.93972319, 0.919424928), (-0.918210426, 0.921461743), (-0.898582293, 0.92434079), (-0.880806064, 0.927247197), (-0.865019576, 0.931451913), (-0.846544342, 0.937113413), (-0.825957234, 0.946769228), (-0.803560618, 0.960784552), (-0.784579989, 0.978649432), (-0.76815517, 0.998735943), (-0.755120774, 1.021081632), (-0.745578843, 1.044990573), (-0.73997235, 1.070217565), (-0.739220572, 1.087479931), (-0.738840837, 1.096199433)],
                knots=[0, 0, 0, 0, 1.160613943, 2.240541288, 3.23993089, 4.169200891, 5.011653406, 5.7853311, 6.478053781, 7.106038997, 8.262395093, 9.384106736, 10.481365981, 11.59014053, 12.70357646, 13.786202915, 14.881775077, 16, 16, 16, 16], degree=3))
            add(Edge.make_bspline(
                [(-0.738840837, 1.096199433), (-0.739222638, 1.104707984), (-0.739981609, 1.121621929), (-0.745622787, 1.146410745), (-0.755102222, 1.170067731), (-0.768242669, 1.192133402), (-0.784190582, 1.212147636), (-0.802726336, 1.229533672), (-0.823806298, 1.243510235), (-0.843415168, 1.252531251), (-0.860832669, 1.258039203), (-0.875961381, 1.261893), (-0.893043085, 1.264969909), (-0.912083342, 1.267461378), (-0.932934575, 1.26959421), (-0.955775923, 1.271041399), (-0.980520858, 1.271888506), (-0.997699292, 1.271930523), (-1.006604259, 1.271952304)],
                knots=[0, 0, 0, 0, 1.120700087, 2.227813068, 3.331159281, 4.466773991, 5.599788987, 6.693661531, 7.80175334, 8.91857717, 9.525282508, 10.207424825, 10.974604443, 11.810962634, 12.737642355, 13.736264703, 14.826523623, 16, 16, 16, 16], degree=3))
            Line((-1.006604259, 1.271952304), (-1.200165624, 1.271952304))
        make_face(mode=Mode.SUBTRACT)
    extrude(amount=BOSS_EXTRUDE3_DEPTH)


solid = part.part
